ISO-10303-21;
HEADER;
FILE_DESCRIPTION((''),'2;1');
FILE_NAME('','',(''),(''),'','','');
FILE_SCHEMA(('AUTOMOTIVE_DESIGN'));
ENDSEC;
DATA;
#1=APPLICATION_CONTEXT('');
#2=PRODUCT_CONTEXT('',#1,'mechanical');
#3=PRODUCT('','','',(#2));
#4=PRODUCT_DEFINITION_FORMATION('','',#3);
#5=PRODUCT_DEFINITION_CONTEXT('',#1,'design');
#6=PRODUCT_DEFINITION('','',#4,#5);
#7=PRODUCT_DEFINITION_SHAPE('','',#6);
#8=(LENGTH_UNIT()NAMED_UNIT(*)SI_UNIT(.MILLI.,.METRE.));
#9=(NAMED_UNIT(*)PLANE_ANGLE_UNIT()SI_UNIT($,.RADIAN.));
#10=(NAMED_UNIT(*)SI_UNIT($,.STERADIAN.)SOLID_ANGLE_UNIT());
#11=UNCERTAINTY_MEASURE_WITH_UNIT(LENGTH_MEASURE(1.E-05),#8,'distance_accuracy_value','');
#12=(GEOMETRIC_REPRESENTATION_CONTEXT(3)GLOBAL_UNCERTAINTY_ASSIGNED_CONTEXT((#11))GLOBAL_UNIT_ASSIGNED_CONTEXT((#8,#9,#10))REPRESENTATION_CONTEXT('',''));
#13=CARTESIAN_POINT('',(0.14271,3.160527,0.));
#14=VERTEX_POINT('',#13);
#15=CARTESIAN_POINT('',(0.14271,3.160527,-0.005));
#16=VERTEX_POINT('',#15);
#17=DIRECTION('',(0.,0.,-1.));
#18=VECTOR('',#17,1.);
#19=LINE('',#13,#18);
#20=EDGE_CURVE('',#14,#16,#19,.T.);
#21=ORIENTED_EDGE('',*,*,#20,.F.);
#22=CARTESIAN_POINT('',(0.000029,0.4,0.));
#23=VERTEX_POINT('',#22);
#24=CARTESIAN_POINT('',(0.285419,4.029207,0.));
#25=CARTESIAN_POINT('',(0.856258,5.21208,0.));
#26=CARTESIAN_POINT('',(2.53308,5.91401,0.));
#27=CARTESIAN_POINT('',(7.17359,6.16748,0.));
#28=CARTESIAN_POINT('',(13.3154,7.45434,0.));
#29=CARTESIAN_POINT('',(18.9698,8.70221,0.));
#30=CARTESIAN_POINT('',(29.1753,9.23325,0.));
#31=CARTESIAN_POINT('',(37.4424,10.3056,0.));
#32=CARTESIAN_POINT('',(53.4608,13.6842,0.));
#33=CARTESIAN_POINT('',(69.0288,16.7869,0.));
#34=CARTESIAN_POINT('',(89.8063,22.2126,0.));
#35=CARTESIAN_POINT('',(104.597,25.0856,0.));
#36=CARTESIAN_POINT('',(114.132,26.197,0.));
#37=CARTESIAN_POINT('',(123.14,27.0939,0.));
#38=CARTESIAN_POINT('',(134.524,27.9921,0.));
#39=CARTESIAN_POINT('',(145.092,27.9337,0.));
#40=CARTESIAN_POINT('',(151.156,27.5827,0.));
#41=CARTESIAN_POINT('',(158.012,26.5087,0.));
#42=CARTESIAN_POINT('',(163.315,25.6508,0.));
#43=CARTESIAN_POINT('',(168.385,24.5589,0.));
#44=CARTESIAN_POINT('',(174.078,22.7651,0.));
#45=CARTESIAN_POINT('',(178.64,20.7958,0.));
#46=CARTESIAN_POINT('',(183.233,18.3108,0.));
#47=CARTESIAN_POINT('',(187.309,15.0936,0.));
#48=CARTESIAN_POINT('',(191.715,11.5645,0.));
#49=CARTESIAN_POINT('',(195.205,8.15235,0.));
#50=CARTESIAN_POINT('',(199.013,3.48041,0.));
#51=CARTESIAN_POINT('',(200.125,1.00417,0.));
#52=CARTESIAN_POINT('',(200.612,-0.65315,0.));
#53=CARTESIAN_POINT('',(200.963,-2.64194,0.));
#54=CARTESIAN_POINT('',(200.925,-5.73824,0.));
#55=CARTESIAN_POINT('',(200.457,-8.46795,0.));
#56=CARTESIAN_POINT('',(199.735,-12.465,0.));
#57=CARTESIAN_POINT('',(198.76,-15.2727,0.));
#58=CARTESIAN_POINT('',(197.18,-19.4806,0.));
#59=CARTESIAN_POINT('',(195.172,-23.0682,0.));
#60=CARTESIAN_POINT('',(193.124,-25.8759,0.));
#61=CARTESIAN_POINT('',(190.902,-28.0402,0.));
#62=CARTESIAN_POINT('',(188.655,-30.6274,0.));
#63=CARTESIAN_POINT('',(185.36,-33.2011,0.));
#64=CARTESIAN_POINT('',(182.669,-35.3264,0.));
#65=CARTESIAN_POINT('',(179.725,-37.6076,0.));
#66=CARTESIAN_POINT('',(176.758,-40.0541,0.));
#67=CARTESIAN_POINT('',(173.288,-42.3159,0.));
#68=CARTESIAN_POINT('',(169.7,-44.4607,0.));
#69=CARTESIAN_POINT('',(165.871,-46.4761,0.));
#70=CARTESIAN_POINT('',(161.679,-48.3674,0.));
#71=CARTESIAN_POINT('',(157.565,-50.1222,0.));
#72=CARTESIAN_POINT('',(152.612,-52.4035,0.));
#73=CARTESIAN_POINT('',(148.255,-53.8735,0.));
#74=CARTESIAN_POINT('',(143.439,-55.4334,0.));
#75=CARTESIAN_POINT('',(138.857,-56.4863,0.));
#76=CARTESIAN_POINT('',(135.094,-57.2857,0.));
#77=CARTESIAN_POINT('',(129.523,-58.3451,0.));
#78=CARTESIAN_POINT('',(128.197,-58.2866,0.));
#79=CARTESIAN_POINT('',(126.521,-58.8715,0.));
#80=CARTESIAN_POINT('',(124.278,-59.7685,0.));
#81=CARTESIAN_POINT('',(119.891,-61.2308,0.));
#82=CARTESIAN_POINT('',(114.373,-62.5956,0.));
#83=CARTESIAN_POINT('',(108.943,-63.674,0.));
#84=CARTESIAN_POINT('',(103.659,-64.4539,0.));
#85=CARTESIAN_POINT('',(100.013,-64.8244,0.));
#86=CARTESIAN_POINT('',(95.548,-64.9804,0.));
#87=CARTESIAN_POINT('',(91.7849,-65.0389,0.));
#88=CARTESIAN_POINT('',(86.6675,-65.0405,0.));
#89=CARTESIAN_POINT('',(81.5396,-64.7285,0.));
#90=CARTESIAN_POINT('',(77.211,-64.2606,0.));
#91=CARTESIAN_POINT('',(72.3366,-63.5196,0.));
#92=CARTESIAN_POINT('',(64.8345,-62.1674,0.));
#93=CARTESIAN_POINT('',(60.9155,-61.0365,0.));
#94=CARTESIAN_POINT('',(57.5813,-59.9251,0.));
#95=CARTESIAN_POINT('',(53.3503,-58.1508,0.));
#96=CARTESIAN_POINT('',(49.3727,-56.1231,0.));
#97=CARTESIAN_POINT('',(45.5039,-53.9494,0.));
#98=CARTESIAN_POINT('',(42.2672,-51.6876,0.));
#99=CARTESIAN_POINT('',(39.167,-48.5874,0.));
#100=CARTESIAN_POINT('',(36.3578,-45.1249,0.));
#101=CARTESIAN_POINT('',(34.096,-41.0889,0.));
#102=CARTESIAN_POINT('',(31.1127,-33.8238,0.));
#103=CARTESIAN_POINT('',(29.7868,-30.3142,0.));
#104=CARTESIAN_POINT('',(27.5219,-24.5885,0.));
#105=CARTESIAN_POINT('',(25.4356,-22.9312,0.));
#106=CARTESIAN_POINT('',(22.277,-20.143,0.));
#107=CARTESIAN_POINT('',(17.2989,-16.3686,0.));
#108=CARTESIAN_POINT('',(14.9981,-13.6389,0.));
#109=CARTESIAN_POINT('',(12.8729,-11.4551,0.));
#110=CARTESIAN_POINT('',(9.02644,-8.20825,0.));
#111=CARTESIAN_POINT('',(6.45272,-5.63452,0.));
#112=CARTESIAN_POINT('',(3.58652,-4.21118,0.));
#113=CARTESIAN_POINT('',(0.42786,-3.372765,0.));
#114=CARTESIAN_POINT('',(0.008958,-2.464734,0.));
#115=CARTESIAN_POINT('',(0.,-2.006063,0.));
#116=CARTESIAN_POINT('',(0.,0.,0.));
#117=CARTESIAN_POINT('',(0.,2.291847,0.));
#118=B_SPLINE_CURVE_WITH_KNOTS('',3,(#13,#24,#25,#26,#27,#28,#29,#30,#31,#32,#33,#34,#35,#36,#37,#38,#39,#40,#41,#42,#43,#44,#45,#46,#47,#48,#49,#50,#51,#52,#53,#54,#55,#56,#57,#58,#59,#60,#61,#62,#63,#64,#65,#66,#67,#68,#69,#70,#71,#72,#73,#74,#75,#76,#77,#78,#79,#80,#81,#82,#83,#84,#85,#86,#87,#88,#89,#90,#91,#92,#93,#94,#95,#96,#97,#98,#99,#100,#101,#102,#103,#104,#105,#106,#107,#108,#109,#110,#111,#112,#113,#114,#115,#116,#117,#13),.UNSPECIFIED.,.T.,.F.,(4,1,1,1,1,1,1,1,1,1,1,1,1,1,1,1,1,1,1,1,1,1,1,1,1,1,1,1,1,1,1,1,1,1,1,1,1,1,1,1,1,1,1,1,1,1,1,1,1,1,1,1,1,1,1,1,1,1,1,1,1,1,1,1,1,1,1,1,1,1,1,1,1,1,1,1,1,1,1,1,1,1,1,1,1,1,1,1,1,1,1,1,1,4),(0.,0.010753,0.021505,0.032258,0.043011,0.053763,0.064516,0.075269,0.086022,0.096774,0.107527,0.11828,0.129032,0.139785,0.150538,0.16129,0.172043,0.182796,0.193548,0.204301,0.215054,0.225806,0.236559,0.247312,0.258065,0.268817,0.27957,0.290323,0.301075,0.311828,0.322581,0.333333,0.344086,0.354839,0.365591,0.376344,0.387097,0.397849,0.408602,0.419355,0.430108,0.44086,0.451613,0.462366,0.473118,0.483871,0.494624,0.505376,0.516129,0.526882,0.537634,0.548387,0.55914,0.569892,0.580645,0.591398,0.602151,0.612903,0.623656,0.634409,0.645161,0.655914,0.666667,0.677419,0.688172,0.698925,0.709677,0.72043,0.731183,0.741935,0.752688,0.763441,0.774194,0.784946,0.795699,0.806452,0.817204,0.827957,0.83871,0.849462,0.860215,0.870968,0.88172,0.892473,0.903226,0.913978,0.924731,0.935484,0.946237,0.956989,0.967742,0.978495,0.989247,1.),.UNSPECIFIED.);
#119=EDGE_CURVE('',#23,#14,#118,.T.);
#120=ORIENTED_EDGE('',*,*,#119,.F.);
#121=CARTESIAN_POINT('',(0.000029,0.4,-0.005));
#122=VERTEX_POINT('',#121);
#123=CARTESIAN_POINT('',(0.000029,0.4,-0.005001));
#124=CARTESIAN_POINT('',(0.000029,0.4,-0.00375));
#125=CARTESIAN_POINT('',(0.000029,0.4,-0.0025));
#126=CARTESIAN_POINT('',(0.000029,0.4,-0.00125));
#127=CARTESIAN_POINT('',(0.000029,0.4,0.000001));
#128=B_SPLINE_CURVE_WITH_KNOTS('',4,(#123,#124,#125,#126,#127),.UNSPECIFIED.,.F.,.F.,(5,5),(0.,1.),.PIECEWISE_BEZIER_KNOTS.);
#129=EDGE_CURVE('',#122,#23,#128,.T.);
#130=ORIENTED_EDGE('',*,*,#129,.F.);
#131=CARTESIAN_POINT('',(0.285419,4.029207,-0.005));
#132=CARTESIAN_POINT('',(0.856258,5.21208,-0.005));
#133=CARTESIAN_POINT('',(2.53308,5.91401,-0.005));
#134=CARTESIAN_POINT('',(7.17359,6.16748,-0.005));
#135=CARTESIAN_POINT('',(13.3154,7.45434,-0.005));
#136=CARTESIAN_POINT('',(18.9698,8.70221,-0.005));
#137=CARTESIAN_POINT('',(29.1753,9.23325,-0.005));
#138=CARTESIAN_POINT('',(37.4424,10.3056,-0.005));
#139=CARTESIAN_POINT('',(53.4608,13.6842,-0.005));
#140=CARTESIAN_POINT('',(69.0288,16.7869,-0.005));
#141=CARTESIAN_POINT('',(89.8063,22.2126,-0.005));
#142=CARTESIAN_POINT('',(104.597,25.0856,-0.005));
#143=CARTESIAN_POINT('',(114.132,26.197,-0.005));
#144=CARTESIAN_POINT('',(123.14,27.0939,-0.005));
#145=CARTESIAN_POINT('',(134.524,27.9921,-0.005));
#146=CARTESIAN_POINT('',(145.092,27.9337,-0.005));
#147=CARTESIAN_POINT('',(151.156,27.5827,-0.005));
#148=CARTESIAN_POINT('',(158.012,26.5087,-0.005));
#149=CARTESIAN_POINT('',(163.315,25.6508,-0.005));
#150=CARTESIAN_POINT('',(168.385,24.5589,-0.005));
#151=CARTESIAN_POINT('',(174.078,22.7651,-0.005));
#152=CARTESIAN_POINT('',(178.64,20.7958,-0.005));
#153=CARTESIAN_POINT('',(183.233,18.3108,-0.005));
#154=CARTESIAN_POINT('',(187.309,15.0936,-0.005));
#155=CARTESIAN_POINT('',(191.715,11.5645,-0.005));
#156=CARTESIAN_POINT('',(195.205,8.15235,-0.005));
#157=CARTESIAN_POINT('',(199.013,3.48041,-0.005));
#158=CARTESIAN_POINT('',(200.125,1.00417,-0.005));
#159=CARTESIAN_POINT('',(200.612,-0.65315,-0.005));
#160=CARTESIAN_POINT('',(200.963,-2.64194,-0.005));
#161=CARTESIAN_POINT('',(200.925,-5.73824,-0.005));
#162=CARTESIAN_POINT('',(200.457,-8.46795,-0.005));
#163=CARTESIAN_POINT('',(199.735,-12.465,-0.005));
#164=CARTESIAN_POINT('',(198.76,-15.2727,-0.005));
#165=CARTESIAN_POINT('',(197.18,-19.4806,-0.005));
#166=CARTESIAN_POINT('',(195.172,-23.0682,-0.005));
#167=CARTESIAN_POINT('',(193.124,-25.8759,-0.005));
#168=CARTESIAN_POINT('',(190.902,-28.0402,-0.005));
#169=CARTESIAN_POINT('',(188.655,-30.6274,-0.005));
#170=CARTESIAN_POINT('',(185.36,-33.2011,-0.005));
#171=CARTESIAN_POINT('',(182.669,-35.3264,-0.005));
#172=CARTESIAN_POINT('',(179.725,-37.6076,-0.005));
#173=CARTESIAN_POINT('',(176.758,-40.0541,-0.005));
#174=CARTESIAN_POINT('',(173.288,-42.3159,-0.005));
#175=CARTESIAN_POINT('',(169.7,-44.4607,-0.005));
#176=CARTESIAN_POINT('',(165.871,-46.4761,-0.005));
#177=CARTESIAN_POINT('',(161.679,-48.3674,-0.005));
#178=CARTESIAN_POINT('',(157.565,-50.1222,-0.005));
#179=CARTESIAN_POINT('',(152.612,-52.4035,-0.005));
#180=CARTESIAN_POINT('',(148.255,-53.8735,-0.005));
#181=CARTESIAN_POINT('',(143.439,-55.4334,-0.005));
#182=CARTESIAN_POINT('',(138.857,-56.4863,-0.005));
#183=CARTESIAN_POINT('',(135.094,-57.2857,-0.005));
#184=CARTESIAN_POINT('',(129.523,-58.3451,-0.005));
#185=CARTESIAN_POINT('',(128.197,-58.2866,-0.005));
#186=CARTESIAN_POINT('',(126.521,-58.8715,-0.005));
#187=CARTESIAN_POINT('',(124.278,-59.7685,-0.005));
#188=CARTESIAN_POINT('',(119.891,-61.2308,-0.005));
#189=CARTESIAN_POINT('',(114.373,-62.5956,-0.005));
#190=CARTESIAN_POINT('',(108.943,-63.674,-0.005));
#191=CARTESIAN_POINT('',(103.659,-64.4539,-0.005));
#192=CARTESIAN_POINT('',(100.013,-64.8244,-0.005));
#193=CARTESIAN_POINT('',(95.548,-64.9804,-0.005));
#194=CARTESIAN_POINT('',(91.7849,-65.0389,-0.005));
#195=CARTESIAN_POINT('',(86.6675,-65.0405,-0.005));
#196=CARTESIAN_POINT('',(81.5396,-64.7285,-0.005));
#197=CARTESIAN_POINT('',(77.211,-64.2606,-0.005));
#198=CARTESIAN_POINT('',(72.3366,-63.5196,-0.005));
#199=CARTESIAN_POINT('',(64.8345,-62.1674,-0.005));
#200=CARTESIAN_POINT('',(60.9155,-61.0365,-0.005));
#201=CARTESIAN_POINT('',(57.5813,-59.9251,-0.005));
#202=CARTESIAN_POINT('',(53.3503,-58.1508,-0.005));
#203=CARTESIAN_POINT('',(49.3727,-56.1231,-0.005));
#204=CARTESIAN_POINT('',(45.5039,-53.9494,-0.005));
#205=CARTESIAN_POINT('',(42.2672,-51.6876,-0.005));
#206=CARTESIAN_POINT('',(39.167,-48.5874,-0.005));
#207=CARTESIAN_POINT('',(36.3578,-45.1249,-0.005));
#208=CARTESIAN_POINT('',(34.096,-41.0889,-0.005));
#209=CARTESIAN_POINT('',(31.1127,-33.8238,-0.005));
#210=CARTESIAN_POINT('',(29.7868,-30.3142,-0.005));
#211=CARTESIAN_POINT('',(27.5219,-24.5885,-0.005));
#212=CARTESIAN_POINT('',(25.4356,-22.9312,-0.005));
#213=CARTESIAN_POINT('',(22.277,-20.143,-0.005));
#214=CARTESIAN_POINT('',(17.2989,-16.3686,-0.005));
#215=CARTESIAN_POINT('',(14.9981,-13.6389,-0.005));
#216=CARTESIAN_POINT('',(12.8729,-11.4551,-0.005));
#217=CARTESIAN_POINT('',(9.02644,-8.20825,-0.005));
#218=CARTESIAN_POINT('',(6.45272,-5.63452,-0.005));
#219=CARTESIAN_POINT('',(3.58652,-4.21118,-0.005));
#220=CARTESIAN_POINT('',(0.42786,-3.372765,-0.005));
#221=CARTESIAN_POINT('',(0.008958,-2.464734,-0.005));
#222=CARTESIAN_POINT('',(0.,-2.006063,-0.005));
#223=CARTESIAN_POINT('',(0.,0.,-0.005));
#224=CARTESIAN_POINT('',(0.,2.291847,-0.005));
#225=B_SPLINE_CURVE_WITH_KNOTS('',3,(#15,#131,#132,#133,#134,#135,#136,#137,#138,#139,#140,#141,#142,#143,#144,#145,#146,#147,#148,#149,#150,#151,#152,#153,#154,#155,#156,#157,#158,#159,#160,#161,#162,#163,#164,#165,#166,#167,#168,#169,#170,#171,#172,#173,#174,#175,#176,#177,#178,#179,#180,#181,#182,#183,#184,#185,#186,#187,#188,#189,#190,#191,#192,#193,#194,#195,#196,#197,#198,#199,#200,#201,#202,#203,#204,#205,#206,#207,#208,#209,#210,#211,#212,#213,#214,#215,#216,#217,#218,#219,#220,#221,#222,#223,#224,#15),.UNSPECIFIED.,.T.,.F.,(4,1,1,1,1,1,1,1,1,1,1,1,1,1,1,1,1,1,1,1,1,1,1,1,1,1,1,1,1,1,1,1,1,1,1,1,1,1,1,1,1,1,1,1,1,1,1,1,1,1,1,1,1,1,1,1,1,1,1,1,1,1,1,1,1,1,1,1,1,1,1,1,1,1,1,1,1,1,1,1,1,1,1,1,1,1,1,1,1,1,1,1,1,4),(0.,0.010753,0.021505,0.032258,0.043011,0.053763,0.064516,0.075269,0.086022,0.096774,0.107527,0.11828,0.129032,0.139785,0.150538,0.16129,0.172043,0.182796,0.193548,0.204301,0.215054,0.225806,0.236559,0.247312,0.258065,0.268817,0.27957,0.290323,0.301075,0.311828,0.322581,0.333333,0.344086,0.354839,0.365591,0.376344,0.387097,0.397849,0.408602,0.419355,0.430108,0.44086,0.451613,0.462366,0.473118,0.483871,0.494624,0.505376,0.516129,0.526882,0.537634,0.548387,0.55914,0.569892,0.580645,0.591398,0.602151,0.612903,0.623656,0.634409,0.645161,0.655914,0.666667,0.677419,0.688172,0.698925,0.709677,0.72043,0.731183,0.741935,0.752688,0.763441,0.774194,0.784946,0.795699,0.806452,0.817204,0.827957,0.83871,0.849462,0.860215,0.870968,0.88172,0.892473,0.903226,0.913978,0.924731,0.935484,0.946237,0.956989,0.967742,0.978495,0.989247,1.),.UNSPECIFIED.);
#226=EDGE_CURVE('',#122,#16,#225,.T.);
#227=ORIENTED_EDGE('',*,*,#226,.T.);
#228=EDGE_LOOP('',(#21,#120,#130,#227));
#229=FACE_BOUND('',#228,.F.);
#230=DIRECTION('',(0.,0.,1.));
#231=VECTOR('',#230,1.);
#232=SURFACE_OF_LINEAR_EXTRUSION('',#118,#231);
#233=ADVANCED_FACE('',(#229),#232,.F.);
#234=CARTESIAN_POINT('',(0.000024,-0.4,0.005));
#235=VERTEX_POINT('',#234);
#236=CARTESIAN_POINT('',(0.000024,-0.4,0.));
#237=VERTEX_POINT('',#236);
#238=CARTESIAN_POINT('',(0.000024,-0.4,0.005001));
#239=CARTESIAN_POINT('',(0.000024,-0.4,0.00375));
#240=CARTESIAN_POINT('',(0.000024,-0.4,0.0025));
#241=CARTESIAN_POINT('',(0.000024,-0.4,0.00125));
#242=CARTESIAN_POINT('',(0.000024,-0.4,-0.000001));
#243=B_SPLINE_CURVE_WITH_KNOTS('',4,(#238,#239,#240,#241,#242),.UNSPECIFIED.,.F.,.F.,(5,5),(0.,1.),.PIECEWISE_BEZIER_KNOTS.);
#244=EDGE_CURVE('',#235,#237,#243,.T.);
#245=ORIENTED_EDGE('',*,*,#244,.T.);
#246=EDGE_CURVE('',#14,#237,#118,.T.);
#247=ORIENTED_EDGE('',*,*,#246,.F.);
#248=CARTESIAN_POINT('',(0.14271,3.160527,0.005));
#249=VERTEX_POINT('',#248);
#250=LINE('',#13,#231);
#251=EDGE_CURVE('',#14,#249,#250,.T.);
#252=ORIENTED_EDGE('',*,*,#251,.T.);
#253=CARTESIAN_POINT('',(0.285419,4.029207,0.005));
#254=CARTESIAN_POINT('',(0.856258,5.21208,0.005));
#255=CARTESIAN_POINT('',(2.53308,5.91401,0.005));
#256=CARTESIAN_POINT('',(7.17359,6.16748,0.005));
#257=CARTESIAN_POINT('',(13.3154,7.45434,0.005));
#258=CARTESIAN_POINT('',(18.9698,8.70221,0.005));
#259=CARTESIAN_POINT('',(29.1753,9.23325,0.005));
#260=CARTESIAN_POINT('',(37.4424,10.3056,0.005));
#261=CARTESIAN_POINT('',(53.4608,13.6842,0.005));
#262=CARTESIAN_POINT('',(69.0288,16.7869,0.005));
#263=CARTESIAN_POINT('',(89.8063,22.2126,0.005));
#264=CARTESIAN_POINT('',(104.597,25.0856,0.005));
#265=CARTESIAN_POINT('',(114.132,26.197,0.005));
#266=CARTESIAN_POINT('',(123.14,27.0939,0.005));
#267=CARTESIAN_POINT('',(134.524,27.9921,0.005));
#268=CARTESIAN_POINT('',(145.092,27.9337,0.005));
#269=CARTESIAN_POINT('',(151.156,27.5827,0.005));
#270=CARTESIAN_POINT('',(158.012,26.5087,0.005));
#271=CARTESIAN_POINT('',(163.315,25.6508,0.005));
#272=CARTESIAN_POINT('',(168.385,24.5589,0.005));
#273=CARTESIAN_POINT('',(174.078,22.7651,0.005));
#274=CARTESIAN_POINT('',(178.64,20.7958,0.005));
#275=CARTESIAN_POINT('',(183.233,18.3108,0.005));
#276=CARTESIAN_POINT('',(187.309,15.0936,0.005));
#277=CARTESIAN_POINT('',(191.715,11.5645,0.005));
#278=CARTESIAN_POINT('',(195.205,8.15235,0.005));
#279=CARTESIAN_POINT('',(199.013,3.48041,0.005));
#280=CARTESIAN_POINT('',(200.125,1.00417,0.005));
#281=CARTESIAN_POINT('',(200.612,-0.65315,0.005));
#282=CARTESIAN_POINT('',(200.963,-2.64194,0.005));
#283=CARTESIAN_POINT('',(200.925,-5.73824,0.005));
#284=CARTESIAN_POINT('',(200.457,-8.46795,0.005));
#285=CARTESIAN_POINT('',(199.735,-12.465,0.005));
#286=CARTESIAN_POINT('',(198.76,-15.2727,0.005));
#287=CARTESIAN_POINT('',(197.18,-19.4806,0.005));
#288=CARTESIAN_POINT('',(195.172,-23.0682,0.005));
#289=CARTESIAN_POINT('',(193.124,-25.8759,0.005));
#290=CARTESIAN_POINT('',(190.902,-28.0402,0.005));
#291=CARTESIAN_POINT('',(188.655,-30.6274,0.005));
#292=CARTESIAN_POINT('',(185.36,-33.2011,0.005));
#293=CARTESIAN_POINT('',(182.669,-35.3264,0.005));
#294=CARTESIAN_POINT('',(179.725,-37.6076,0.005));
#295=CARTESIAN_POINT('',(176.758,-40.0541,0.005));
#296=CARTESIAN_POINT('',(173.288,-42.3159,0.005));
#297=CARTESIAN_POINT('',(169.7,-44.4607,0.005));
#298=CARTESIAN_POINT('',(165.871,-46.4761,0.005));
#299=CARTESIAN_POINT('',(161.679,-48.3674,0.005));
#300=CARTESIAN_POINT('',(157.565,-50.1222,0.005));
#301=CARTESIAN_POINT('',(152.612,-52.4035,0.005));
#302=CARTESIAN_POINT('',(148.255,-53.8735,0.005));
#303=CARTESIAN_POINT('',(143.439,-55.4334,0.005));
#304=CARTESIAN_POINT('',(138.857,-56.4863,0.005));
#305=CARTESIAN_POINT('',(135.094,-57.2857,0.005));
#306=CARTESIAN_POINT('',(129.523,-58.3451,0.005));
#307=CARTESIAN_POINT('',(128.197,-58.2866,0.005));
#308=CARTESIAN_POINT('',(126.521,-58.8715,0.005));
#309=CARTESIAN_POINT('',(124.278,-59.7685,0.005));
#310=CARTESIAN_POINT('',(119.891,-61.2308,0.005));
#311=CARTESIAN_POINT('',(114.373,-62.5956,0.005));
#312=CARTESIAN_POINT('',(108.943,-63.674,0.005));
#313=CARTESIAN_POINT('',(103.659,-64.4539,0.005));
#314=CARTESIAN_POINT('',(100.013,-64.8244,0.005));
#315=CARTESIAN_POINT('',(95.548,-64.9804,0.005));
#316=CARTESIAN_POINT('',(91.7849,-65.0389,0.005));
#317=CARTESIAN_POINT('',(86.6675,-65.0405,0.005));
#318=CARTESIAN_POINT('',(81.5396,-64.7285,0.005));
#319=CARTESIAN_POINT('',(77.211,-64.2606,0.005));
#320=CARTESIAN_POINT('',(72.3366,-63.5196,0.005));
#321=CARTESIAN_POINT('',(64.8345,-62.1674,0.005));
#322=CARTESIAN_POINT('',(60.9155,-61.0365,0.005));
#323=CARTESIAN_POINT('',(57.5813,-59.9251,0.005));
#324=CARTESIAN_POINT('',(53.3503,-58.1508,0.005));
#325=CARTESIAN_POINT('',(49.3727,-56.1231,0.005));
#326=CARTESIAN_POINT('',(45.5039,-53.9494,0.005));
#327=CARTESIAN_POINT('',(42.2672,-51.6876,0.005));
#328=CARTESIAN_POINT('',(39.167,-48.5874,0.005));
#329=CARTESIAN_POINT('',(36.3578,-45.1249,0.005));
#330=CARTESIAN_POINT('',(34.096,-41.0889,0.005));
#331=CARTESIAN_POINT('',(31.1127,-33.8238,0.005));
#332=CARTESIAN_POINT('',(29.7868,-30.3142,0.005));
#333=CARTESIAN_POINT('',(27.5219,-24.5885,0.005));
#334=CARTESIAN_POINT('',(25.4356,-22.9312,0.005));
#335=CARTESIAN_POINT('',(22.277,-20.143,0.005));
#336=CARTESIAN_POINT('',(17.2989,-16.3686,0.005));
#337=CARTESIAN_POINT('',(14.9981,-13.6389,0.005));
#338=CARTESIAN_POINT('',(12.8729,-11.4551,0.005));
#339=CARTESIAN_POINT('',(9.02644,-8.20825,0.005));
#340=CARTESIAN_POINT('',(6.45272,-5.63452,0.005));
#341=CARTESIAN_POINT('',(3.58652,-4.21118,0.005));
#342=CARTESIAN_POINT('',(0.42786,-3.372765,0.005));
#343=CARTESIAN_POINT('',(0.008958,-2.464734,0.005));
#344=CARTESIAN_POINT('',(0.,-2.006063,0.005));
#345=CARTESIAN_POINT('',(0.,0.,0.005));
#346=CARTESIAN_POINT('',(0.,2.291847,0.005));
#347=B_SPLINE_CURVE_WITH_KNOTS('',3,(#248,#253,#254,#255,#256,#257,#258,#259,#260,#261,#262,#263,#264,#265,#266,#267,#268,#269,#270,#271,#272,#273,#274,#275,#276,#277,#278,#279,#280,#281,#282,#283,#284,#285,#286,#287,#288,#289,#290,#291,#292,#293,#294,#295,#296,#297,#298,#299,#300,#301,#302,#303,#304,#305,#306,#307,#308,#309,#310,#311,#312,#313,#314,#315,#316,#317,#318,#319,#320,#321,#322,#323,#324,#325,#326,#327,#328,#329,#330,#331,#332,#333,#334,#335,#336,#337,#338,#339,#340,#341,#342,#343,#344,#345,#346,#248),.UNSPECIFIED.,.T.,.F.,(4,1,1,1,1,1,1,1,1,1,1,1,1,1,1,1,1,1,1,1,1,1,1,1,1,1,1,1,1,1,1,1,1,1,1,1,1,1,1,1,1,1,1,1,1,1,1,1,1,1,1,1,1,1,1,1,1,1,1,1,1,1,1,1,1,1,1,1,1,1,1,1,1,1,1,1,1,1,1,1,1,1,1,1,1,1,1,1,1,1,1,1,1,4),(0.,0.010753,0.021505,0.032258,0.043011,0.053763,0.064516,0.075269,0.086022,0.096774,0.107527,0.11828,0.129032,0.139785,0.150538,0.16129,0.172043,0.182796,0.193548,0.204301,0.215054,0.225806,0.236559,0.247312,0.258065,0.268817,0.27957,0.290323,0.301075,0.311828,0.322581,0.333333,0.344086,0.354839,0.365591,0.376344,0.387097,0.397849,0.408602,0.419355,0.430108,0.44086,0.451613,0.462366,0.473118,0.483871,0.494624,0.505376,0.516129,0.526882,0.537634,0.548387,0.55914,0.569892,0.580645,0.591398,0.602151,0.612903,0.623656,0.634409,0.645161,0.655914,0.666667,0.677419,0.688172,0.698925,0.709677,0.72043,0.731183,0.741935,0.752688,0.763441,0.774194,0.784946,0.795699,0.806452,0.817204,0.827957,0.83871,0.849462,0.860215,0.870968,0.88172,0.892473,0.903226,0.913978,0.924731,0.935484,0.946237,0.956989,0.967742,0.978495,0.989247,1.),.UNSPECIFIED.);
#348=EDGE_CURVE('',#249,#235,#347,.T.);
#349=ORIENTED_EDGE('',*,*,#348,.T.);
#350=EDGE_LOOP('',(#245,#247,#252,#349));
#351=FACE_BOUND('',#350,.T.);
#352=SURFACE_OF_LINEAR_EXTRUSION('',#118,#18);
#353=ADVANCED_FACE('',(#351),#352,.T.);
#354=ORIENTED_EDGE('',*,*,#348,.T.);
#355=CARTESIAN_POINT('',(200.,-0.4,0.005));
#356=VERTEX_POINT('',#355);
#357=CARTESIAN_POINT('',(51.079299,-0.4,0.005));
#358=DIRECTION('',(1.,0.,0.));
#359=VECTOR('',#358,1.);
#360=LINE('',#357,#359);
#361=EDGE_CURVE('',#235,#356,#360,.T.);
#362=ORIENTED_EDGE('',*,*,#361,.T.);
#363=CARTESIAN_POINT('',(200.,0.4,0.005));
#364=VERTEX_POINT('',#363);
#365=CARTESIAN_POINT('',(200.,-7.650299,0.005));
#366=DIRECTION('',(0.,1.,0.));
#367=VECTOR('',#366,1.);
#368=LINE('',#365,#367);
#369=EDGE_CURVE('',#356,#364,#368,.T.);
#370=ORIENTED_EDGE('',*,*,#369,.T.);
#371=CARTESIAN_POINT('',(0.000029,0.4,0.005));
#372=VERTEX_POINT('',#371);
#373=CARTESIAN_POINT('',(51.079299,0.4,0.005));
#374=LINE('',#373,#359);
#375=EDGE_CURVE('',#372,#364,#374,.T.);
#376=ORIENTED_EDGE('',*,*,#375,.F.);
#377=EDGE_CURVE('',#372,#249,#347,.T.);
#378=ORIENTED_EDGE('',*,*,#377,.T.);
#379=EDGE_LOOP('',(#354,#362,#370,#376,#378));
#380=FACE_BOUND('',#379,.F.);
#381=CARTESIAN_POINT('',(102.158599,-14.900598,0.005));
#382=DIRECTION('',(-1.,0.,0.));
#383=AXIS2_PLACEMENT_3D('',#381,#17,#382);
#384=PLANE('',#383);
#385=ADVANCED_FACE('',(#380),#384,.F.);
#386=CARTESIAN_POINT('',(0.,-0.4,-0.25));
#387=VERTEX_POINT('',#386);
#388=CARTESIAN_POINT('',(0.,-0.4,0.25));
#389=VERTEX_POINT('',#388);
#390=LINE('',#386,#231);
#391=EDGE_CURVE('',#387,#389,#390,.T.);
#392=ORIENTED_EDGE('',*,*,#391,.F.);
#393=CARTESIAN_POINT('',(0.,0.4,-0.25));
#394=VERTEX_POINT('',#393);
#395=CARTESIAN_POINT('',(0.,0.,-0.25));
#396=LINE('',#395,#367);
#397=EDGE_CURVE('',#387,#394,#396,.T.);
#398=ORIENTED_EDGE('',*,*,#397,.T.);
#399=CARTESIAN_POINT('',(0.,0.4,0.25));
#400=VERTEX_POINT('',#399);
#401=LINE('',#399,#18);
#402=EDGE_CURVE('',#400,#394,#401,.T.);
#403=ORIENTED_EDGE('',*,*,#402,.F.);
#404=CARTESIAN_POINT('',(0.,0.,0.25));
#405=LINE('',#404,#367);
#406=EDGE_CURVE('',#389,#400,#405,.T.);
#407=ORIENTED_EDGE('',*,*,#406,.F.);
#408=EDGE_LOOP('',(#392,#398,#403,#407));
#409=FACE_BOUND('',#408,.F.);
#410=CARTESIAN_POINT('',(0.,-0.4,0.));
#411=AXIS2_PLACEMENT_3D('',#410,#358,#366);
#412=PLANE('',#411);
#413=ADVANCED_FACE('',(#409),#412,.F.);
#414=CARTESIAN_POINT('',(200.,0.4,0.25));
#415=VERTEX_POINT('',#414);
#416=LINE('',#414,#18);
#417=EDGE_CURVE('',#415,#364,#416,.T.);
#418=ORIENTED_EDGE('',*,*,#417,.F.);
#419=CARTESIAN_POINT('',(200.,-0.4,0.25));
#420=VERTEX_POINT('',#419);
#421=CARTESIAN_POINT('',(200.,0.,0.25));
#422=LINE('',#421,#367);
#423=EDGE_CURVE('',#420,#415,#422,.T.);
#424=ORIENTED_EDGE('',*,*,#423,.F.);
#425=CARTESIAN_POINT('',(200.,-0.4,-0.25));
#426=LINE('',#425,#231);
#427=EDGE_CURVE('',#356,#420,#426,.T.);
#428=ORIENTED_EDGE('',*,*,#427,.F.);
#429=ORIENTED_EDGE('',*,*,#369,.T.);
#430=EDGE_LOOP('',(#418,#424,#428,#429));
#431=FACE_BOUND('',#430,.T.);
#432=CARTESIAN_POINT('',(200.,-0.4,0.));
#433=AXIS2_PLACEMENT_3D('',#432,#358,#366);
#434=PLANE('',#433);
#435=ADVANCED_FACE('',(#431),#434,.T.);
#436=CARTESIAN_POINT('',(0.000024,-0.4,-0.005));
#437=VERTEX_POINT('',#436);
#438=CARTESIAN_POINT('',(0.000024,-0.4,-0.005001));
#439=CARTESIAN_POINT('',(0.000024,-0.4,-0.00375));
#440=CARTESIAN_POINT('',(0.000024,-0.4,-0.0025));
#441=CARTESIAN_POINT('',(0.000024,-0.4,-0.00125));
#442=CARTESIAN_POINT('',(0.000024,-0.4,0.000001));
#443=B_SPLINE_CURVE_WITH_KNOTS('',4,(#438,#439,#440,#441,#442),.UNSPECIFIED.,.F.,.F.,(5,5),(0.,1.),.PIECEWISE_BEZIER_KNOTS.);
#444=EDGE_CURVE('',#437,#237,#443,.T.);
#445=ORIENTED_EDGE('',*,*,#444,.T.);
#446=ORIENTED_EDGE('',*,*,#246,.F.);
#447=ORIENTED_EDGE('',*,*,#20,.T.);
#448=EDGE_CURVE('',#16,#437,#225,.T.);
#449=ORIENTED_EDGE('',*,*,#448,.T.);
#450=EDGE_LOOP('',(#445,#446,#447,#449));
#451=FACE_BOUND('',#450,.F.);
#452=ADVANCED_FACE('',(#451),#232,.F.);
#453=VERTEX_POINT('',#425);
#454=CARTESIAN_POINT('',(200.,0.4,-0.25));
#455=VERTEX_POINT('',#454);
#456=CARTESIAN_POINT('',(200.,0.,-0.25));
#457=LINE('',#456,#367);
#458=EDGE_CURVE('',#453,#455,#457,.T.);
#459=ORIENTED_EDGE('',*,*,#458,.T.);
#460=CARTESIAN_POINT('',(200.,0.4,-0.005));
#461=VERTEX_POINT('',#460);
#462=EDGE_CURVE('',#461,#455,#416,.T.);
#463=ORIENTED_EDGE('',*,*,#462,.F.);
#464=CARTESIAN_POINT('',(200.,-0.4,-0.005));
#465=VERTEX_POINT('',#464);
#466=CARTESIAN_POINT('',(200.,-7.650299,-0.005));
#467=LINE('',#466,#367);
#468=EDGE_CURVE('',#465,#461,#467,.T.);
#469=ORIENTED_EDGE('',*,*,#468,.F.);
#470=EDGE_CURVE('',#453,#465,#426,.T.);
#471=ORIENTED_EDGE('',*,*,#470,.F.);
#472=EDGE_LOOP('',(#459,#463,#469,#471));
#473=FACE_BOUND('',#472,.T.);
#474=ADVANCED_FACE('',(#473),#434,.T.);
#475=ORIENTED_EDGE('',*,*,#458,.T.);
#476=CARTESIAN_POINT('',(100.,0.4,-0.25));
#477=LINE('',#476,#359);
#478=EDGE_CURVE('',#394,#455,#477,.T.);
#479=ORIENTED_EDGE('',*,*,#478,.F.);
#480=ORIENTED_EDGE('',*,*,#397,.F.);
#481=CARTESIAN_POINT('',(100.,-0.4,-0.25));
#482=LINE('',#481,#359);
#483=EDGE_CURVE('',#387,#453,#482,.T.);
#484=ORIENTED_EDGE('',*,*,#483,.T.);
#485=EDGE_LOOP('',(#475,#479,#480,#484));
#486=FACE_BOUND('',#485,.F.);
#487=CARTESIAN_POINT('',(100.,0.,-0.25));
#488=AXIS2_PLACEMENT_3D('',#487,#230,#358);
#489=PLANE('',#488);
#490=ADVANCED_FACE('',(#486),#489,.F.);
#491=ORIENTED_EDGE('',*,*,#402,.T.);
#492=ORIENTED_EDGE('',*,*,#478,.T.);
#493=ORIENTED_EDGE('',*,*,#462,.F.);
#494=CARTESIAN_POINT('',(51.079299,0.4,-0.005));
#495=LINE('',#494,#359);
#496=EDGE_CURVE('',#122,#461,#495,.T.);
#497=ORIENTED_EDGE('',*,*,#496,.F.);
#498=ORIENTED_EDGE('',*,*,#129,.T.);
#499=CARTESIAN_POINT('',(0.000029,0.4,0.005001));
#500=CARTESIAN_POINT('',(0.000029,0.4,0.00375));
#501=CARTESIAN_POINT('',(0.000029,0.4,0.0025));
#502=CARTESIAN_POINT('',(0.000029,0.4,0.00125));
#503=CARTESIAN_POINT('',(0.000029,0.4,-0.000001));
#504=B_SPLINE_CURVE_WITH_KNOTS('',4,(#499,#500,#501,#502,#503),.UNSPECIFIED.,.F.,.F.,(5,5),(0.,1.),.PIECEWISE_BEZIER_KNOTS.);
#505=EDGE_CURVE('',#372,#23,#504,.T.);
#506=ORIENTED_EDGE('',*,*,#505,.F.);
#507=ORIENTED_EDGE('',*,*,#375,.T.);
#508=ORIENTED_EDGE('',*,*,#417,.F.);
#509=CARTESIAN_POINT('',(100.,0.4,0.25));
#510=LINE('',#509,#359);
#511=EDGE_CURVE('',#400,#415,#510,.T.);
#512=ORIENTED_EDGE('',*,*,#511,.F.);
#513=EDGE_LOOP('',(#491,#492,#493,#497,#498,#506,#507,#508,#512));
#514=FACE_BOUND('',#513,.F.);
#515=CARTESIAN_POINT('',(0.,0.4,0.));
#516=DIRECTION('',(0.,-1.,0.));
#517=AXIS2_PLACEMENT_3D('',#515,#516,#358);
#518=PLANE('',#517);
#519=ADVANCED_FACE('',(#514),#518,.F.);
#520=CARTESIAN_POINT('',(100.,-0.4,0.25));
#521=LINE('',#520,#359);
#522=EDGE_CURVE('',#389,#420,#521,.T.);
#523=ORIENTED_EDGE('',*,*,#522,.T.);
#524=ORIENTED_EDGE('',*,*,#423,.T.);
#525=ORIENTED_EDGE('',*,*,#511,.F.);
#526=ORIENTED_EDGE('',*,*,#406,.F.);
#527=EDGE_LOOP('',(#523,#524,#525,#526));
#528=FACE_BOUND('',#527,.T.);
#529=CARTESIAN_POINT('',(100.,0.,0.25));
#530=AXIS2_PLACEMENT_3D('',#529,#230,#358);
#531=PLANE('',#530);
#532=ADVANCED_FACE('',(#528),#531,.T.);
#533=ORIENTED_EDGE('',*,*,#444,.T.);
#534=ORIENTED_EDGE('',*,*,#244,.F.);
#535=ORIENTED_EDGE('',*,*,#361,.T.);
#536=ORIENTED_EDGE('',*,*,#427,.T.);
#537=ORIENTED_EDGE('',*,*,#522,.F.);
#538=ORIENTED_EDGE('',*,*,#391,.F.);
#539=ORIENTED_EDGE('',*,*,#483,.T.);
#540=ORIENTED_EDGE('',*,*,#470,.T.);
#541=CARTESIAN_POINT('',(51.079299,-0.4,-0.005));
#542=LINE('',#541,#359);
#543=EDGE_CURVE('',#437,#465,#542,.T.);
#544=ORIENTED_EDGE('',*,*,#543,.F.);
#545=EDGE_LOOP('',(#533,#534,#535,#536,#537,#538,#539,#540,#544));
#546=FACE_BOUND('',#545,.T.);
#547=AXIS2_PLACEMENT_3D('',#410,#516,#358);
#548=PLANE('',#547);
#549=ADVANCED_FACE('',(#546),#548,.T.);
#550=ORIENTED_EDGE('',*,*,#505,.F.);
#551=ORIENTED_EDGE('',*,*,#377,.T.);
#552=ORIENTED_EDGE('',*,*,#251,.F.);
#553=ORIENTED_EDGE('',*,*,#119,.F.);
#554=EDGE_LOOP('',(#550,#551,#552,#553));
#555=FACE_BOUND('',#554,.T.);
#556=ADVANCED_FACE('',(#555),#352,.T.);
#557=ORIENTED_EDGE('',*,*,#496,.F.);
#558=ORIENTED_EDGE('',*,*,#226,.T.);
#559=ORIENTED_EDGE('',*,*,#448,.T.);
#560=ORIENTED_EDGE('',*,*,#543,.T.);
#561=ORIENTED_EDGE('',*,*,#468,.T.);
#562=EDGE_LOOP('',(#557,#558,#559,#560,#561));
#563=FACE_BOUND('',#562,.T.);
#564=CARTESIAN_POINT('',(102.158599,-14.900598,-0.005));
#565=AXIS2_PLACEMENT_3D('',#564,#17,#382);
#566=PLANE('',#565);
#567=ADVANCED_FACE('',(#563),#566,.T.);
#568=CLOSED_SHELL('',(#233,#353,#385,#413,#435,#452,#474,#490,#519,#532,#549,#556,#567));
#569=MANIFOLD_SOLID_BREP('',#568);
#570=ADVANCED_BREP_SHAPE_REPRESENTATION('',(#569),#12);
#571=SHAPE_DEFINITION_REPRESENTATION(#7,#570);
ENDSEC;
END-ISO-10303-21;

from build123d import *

# Parameters (mm, degrees)
SKETCH_W     = 200
SKETCH_H     = 0.8
PAD_DEPTH    = 0.25
PAD001_DEPTH = 0.005


with BuildPart() as part:
    # Sketch → Pad (new body, symmetric)
    with BuildSketch(Plane.XY):
        with Locations((100, 0)):
            Rectangle(SKETCH_W, SKETCH_H)
    extrude(amount=PAD_DEPTH, both=True)

    # Sketch001 → Pad001 (join, symmetric)
    with BuildSketch(Plane.XY):
        with BuildLine():
            add(Edge.make_bspline(
                [(0.14271, 3.160527), (0.285419, 4.029207), (0.856258, 5.21208), (2.53308, 5.91401), (7.17359, 6.16748), (13.3154, 7.45434), (18.9698, 8.70221), (29.1753, 9.23325), (37.4424, 10.3056), (53.4608, 13.6842), (69.0288, 16.7869), (89.8063, 22.2126), (104.597, 25.0856), (114.132, 26.197), (123.14, 27.0939), (134.524, 27.9921), (145.092, 27.9337), (151.156, 27.5827), (158.012, 26.5087), (163.315, 25.6508), (168.385, 24.5589), (174.078, 22.7651), (178.64, 20.7958), (183.233, 18.3108), (187.309, 15.0936), (191.715, 11.5645), (195.205, 8.15235), (199.013, 3.48041), (200.125, 1.00417), (200.612, -0.65315), (200.963, -2.64194), (200.925, -5.73824), (200.457, -8.46795), (199.735, -12.465), (198.76, -15.2727), (197.18, -19.4806), (195.172, -23.0682), (193.124, -25.8759), (190.902, -28.0402), (188.655, -30.6274), (185.36, -33.2011), (182.669, -35.3264), (179.725, -37.6076), (176.758, -40.0541), (173.288, -42.3159), (169.7, -44.4607), (165.871, -46.4761), (161.679, -48.3674), (157.565, -50.1222), (152.612, -52.4035), (148.255, -53.8735), (143.439, -55.4334), (138.857, -56.4863), (135.094, -57.2857), (129.523, -58.3451), (128.197, -58.2866), (126.521, -58.8715), (124.278, -59.7685), (119.891, -61.2308), (114.373, -62.5956), (108.943, -63.674), (103.659, -64.4539), (100.013, -64.8244), (95.548, -64.9804), (91.7849, -65.0389), (86.6675, -65.0405), (81.5396, -64.7285), (77.211, -64.2606), (72.3366, -63.5196), (64.8345, -62.1674), (60.9155, -61.0365), (57.5813, -59.9251), (53.3503, -58.1508), (49.3727, -56.1231), (45.5039, -53.9494), (42.2672, -51.6876), (39.167, -48.5874), (36.3578, -45.1249), (34.096, -41.0889), (31.1127, -33.8238), (29.7868, -30.3142), (27.5219, -24.5885), (25.4356, -22.9312), (22.277, -20.143), (17.2989, -16.3686), (14.9981, -13.6389), (12.8729, -11.4551), (9.02644, -8.20825), (6.45272, -5.63452), (3.58652, -4.21118), (0.42786, -3.372765), (0.008958, -2.464734), (0, -2.006063), (0, 0), (0, 2.291847), (0.14271, 3.160527)],
                knots=[0, 0, 0, 0, 0.010753, 0.021505, 0.032258, 0.043011, 0.053763, 0.064516, 0.075269, 0.086022, 0.096774, 0.107527, 0.11828, 0.129032, 0.139785, 0.150538, 0.16129, 0.172043, 0.182796, 0.193548, 0.204301, 0.215054, 0.225806, 0.236559, 0.247312, 0.258065, 0.268817, 0.27957, 0.290323, 0.301075, 0.311828, 0.322581, 0.333333, 0.344086, 0.354839, 0.365591, 0.376344, 0.387097, 0.397849, 0.408602, 0.419355, 0.430108, 0.44086, 0.451613, 0.462366, 0.473118, 0.483871, 0.494624, 0.505376, 0.516129, 0.526882, 0.537634, 0.548387, 0.55914, 0.569892, 0.580645, 0.591398, 0.602151, 0.612903, 0.623656, 0.634409, 0.645161, 0.655914, 0.666667, 0.677419, 0.688172, 0.698925, 0.709677, 0.72043, 0.731183, 0.741935, 0.752688, 0.763441, 0.774194, 0.784946, 0.795699, 0.806452, 0.817204, 0.827957, 0.83871, 0.849462, 0.860215, 0.870968, 0.88172, 0.892473, 0.903226, 0.913978, 0.924731, 0.935484, 0.946237, 0.956989, 0.967742, 0.978495, 0.989247, 1, 1, 1, 1], degree=3))
        make_face()
    extrude(amount=PAD001_DEPTH, both=True)


solid = part.part
